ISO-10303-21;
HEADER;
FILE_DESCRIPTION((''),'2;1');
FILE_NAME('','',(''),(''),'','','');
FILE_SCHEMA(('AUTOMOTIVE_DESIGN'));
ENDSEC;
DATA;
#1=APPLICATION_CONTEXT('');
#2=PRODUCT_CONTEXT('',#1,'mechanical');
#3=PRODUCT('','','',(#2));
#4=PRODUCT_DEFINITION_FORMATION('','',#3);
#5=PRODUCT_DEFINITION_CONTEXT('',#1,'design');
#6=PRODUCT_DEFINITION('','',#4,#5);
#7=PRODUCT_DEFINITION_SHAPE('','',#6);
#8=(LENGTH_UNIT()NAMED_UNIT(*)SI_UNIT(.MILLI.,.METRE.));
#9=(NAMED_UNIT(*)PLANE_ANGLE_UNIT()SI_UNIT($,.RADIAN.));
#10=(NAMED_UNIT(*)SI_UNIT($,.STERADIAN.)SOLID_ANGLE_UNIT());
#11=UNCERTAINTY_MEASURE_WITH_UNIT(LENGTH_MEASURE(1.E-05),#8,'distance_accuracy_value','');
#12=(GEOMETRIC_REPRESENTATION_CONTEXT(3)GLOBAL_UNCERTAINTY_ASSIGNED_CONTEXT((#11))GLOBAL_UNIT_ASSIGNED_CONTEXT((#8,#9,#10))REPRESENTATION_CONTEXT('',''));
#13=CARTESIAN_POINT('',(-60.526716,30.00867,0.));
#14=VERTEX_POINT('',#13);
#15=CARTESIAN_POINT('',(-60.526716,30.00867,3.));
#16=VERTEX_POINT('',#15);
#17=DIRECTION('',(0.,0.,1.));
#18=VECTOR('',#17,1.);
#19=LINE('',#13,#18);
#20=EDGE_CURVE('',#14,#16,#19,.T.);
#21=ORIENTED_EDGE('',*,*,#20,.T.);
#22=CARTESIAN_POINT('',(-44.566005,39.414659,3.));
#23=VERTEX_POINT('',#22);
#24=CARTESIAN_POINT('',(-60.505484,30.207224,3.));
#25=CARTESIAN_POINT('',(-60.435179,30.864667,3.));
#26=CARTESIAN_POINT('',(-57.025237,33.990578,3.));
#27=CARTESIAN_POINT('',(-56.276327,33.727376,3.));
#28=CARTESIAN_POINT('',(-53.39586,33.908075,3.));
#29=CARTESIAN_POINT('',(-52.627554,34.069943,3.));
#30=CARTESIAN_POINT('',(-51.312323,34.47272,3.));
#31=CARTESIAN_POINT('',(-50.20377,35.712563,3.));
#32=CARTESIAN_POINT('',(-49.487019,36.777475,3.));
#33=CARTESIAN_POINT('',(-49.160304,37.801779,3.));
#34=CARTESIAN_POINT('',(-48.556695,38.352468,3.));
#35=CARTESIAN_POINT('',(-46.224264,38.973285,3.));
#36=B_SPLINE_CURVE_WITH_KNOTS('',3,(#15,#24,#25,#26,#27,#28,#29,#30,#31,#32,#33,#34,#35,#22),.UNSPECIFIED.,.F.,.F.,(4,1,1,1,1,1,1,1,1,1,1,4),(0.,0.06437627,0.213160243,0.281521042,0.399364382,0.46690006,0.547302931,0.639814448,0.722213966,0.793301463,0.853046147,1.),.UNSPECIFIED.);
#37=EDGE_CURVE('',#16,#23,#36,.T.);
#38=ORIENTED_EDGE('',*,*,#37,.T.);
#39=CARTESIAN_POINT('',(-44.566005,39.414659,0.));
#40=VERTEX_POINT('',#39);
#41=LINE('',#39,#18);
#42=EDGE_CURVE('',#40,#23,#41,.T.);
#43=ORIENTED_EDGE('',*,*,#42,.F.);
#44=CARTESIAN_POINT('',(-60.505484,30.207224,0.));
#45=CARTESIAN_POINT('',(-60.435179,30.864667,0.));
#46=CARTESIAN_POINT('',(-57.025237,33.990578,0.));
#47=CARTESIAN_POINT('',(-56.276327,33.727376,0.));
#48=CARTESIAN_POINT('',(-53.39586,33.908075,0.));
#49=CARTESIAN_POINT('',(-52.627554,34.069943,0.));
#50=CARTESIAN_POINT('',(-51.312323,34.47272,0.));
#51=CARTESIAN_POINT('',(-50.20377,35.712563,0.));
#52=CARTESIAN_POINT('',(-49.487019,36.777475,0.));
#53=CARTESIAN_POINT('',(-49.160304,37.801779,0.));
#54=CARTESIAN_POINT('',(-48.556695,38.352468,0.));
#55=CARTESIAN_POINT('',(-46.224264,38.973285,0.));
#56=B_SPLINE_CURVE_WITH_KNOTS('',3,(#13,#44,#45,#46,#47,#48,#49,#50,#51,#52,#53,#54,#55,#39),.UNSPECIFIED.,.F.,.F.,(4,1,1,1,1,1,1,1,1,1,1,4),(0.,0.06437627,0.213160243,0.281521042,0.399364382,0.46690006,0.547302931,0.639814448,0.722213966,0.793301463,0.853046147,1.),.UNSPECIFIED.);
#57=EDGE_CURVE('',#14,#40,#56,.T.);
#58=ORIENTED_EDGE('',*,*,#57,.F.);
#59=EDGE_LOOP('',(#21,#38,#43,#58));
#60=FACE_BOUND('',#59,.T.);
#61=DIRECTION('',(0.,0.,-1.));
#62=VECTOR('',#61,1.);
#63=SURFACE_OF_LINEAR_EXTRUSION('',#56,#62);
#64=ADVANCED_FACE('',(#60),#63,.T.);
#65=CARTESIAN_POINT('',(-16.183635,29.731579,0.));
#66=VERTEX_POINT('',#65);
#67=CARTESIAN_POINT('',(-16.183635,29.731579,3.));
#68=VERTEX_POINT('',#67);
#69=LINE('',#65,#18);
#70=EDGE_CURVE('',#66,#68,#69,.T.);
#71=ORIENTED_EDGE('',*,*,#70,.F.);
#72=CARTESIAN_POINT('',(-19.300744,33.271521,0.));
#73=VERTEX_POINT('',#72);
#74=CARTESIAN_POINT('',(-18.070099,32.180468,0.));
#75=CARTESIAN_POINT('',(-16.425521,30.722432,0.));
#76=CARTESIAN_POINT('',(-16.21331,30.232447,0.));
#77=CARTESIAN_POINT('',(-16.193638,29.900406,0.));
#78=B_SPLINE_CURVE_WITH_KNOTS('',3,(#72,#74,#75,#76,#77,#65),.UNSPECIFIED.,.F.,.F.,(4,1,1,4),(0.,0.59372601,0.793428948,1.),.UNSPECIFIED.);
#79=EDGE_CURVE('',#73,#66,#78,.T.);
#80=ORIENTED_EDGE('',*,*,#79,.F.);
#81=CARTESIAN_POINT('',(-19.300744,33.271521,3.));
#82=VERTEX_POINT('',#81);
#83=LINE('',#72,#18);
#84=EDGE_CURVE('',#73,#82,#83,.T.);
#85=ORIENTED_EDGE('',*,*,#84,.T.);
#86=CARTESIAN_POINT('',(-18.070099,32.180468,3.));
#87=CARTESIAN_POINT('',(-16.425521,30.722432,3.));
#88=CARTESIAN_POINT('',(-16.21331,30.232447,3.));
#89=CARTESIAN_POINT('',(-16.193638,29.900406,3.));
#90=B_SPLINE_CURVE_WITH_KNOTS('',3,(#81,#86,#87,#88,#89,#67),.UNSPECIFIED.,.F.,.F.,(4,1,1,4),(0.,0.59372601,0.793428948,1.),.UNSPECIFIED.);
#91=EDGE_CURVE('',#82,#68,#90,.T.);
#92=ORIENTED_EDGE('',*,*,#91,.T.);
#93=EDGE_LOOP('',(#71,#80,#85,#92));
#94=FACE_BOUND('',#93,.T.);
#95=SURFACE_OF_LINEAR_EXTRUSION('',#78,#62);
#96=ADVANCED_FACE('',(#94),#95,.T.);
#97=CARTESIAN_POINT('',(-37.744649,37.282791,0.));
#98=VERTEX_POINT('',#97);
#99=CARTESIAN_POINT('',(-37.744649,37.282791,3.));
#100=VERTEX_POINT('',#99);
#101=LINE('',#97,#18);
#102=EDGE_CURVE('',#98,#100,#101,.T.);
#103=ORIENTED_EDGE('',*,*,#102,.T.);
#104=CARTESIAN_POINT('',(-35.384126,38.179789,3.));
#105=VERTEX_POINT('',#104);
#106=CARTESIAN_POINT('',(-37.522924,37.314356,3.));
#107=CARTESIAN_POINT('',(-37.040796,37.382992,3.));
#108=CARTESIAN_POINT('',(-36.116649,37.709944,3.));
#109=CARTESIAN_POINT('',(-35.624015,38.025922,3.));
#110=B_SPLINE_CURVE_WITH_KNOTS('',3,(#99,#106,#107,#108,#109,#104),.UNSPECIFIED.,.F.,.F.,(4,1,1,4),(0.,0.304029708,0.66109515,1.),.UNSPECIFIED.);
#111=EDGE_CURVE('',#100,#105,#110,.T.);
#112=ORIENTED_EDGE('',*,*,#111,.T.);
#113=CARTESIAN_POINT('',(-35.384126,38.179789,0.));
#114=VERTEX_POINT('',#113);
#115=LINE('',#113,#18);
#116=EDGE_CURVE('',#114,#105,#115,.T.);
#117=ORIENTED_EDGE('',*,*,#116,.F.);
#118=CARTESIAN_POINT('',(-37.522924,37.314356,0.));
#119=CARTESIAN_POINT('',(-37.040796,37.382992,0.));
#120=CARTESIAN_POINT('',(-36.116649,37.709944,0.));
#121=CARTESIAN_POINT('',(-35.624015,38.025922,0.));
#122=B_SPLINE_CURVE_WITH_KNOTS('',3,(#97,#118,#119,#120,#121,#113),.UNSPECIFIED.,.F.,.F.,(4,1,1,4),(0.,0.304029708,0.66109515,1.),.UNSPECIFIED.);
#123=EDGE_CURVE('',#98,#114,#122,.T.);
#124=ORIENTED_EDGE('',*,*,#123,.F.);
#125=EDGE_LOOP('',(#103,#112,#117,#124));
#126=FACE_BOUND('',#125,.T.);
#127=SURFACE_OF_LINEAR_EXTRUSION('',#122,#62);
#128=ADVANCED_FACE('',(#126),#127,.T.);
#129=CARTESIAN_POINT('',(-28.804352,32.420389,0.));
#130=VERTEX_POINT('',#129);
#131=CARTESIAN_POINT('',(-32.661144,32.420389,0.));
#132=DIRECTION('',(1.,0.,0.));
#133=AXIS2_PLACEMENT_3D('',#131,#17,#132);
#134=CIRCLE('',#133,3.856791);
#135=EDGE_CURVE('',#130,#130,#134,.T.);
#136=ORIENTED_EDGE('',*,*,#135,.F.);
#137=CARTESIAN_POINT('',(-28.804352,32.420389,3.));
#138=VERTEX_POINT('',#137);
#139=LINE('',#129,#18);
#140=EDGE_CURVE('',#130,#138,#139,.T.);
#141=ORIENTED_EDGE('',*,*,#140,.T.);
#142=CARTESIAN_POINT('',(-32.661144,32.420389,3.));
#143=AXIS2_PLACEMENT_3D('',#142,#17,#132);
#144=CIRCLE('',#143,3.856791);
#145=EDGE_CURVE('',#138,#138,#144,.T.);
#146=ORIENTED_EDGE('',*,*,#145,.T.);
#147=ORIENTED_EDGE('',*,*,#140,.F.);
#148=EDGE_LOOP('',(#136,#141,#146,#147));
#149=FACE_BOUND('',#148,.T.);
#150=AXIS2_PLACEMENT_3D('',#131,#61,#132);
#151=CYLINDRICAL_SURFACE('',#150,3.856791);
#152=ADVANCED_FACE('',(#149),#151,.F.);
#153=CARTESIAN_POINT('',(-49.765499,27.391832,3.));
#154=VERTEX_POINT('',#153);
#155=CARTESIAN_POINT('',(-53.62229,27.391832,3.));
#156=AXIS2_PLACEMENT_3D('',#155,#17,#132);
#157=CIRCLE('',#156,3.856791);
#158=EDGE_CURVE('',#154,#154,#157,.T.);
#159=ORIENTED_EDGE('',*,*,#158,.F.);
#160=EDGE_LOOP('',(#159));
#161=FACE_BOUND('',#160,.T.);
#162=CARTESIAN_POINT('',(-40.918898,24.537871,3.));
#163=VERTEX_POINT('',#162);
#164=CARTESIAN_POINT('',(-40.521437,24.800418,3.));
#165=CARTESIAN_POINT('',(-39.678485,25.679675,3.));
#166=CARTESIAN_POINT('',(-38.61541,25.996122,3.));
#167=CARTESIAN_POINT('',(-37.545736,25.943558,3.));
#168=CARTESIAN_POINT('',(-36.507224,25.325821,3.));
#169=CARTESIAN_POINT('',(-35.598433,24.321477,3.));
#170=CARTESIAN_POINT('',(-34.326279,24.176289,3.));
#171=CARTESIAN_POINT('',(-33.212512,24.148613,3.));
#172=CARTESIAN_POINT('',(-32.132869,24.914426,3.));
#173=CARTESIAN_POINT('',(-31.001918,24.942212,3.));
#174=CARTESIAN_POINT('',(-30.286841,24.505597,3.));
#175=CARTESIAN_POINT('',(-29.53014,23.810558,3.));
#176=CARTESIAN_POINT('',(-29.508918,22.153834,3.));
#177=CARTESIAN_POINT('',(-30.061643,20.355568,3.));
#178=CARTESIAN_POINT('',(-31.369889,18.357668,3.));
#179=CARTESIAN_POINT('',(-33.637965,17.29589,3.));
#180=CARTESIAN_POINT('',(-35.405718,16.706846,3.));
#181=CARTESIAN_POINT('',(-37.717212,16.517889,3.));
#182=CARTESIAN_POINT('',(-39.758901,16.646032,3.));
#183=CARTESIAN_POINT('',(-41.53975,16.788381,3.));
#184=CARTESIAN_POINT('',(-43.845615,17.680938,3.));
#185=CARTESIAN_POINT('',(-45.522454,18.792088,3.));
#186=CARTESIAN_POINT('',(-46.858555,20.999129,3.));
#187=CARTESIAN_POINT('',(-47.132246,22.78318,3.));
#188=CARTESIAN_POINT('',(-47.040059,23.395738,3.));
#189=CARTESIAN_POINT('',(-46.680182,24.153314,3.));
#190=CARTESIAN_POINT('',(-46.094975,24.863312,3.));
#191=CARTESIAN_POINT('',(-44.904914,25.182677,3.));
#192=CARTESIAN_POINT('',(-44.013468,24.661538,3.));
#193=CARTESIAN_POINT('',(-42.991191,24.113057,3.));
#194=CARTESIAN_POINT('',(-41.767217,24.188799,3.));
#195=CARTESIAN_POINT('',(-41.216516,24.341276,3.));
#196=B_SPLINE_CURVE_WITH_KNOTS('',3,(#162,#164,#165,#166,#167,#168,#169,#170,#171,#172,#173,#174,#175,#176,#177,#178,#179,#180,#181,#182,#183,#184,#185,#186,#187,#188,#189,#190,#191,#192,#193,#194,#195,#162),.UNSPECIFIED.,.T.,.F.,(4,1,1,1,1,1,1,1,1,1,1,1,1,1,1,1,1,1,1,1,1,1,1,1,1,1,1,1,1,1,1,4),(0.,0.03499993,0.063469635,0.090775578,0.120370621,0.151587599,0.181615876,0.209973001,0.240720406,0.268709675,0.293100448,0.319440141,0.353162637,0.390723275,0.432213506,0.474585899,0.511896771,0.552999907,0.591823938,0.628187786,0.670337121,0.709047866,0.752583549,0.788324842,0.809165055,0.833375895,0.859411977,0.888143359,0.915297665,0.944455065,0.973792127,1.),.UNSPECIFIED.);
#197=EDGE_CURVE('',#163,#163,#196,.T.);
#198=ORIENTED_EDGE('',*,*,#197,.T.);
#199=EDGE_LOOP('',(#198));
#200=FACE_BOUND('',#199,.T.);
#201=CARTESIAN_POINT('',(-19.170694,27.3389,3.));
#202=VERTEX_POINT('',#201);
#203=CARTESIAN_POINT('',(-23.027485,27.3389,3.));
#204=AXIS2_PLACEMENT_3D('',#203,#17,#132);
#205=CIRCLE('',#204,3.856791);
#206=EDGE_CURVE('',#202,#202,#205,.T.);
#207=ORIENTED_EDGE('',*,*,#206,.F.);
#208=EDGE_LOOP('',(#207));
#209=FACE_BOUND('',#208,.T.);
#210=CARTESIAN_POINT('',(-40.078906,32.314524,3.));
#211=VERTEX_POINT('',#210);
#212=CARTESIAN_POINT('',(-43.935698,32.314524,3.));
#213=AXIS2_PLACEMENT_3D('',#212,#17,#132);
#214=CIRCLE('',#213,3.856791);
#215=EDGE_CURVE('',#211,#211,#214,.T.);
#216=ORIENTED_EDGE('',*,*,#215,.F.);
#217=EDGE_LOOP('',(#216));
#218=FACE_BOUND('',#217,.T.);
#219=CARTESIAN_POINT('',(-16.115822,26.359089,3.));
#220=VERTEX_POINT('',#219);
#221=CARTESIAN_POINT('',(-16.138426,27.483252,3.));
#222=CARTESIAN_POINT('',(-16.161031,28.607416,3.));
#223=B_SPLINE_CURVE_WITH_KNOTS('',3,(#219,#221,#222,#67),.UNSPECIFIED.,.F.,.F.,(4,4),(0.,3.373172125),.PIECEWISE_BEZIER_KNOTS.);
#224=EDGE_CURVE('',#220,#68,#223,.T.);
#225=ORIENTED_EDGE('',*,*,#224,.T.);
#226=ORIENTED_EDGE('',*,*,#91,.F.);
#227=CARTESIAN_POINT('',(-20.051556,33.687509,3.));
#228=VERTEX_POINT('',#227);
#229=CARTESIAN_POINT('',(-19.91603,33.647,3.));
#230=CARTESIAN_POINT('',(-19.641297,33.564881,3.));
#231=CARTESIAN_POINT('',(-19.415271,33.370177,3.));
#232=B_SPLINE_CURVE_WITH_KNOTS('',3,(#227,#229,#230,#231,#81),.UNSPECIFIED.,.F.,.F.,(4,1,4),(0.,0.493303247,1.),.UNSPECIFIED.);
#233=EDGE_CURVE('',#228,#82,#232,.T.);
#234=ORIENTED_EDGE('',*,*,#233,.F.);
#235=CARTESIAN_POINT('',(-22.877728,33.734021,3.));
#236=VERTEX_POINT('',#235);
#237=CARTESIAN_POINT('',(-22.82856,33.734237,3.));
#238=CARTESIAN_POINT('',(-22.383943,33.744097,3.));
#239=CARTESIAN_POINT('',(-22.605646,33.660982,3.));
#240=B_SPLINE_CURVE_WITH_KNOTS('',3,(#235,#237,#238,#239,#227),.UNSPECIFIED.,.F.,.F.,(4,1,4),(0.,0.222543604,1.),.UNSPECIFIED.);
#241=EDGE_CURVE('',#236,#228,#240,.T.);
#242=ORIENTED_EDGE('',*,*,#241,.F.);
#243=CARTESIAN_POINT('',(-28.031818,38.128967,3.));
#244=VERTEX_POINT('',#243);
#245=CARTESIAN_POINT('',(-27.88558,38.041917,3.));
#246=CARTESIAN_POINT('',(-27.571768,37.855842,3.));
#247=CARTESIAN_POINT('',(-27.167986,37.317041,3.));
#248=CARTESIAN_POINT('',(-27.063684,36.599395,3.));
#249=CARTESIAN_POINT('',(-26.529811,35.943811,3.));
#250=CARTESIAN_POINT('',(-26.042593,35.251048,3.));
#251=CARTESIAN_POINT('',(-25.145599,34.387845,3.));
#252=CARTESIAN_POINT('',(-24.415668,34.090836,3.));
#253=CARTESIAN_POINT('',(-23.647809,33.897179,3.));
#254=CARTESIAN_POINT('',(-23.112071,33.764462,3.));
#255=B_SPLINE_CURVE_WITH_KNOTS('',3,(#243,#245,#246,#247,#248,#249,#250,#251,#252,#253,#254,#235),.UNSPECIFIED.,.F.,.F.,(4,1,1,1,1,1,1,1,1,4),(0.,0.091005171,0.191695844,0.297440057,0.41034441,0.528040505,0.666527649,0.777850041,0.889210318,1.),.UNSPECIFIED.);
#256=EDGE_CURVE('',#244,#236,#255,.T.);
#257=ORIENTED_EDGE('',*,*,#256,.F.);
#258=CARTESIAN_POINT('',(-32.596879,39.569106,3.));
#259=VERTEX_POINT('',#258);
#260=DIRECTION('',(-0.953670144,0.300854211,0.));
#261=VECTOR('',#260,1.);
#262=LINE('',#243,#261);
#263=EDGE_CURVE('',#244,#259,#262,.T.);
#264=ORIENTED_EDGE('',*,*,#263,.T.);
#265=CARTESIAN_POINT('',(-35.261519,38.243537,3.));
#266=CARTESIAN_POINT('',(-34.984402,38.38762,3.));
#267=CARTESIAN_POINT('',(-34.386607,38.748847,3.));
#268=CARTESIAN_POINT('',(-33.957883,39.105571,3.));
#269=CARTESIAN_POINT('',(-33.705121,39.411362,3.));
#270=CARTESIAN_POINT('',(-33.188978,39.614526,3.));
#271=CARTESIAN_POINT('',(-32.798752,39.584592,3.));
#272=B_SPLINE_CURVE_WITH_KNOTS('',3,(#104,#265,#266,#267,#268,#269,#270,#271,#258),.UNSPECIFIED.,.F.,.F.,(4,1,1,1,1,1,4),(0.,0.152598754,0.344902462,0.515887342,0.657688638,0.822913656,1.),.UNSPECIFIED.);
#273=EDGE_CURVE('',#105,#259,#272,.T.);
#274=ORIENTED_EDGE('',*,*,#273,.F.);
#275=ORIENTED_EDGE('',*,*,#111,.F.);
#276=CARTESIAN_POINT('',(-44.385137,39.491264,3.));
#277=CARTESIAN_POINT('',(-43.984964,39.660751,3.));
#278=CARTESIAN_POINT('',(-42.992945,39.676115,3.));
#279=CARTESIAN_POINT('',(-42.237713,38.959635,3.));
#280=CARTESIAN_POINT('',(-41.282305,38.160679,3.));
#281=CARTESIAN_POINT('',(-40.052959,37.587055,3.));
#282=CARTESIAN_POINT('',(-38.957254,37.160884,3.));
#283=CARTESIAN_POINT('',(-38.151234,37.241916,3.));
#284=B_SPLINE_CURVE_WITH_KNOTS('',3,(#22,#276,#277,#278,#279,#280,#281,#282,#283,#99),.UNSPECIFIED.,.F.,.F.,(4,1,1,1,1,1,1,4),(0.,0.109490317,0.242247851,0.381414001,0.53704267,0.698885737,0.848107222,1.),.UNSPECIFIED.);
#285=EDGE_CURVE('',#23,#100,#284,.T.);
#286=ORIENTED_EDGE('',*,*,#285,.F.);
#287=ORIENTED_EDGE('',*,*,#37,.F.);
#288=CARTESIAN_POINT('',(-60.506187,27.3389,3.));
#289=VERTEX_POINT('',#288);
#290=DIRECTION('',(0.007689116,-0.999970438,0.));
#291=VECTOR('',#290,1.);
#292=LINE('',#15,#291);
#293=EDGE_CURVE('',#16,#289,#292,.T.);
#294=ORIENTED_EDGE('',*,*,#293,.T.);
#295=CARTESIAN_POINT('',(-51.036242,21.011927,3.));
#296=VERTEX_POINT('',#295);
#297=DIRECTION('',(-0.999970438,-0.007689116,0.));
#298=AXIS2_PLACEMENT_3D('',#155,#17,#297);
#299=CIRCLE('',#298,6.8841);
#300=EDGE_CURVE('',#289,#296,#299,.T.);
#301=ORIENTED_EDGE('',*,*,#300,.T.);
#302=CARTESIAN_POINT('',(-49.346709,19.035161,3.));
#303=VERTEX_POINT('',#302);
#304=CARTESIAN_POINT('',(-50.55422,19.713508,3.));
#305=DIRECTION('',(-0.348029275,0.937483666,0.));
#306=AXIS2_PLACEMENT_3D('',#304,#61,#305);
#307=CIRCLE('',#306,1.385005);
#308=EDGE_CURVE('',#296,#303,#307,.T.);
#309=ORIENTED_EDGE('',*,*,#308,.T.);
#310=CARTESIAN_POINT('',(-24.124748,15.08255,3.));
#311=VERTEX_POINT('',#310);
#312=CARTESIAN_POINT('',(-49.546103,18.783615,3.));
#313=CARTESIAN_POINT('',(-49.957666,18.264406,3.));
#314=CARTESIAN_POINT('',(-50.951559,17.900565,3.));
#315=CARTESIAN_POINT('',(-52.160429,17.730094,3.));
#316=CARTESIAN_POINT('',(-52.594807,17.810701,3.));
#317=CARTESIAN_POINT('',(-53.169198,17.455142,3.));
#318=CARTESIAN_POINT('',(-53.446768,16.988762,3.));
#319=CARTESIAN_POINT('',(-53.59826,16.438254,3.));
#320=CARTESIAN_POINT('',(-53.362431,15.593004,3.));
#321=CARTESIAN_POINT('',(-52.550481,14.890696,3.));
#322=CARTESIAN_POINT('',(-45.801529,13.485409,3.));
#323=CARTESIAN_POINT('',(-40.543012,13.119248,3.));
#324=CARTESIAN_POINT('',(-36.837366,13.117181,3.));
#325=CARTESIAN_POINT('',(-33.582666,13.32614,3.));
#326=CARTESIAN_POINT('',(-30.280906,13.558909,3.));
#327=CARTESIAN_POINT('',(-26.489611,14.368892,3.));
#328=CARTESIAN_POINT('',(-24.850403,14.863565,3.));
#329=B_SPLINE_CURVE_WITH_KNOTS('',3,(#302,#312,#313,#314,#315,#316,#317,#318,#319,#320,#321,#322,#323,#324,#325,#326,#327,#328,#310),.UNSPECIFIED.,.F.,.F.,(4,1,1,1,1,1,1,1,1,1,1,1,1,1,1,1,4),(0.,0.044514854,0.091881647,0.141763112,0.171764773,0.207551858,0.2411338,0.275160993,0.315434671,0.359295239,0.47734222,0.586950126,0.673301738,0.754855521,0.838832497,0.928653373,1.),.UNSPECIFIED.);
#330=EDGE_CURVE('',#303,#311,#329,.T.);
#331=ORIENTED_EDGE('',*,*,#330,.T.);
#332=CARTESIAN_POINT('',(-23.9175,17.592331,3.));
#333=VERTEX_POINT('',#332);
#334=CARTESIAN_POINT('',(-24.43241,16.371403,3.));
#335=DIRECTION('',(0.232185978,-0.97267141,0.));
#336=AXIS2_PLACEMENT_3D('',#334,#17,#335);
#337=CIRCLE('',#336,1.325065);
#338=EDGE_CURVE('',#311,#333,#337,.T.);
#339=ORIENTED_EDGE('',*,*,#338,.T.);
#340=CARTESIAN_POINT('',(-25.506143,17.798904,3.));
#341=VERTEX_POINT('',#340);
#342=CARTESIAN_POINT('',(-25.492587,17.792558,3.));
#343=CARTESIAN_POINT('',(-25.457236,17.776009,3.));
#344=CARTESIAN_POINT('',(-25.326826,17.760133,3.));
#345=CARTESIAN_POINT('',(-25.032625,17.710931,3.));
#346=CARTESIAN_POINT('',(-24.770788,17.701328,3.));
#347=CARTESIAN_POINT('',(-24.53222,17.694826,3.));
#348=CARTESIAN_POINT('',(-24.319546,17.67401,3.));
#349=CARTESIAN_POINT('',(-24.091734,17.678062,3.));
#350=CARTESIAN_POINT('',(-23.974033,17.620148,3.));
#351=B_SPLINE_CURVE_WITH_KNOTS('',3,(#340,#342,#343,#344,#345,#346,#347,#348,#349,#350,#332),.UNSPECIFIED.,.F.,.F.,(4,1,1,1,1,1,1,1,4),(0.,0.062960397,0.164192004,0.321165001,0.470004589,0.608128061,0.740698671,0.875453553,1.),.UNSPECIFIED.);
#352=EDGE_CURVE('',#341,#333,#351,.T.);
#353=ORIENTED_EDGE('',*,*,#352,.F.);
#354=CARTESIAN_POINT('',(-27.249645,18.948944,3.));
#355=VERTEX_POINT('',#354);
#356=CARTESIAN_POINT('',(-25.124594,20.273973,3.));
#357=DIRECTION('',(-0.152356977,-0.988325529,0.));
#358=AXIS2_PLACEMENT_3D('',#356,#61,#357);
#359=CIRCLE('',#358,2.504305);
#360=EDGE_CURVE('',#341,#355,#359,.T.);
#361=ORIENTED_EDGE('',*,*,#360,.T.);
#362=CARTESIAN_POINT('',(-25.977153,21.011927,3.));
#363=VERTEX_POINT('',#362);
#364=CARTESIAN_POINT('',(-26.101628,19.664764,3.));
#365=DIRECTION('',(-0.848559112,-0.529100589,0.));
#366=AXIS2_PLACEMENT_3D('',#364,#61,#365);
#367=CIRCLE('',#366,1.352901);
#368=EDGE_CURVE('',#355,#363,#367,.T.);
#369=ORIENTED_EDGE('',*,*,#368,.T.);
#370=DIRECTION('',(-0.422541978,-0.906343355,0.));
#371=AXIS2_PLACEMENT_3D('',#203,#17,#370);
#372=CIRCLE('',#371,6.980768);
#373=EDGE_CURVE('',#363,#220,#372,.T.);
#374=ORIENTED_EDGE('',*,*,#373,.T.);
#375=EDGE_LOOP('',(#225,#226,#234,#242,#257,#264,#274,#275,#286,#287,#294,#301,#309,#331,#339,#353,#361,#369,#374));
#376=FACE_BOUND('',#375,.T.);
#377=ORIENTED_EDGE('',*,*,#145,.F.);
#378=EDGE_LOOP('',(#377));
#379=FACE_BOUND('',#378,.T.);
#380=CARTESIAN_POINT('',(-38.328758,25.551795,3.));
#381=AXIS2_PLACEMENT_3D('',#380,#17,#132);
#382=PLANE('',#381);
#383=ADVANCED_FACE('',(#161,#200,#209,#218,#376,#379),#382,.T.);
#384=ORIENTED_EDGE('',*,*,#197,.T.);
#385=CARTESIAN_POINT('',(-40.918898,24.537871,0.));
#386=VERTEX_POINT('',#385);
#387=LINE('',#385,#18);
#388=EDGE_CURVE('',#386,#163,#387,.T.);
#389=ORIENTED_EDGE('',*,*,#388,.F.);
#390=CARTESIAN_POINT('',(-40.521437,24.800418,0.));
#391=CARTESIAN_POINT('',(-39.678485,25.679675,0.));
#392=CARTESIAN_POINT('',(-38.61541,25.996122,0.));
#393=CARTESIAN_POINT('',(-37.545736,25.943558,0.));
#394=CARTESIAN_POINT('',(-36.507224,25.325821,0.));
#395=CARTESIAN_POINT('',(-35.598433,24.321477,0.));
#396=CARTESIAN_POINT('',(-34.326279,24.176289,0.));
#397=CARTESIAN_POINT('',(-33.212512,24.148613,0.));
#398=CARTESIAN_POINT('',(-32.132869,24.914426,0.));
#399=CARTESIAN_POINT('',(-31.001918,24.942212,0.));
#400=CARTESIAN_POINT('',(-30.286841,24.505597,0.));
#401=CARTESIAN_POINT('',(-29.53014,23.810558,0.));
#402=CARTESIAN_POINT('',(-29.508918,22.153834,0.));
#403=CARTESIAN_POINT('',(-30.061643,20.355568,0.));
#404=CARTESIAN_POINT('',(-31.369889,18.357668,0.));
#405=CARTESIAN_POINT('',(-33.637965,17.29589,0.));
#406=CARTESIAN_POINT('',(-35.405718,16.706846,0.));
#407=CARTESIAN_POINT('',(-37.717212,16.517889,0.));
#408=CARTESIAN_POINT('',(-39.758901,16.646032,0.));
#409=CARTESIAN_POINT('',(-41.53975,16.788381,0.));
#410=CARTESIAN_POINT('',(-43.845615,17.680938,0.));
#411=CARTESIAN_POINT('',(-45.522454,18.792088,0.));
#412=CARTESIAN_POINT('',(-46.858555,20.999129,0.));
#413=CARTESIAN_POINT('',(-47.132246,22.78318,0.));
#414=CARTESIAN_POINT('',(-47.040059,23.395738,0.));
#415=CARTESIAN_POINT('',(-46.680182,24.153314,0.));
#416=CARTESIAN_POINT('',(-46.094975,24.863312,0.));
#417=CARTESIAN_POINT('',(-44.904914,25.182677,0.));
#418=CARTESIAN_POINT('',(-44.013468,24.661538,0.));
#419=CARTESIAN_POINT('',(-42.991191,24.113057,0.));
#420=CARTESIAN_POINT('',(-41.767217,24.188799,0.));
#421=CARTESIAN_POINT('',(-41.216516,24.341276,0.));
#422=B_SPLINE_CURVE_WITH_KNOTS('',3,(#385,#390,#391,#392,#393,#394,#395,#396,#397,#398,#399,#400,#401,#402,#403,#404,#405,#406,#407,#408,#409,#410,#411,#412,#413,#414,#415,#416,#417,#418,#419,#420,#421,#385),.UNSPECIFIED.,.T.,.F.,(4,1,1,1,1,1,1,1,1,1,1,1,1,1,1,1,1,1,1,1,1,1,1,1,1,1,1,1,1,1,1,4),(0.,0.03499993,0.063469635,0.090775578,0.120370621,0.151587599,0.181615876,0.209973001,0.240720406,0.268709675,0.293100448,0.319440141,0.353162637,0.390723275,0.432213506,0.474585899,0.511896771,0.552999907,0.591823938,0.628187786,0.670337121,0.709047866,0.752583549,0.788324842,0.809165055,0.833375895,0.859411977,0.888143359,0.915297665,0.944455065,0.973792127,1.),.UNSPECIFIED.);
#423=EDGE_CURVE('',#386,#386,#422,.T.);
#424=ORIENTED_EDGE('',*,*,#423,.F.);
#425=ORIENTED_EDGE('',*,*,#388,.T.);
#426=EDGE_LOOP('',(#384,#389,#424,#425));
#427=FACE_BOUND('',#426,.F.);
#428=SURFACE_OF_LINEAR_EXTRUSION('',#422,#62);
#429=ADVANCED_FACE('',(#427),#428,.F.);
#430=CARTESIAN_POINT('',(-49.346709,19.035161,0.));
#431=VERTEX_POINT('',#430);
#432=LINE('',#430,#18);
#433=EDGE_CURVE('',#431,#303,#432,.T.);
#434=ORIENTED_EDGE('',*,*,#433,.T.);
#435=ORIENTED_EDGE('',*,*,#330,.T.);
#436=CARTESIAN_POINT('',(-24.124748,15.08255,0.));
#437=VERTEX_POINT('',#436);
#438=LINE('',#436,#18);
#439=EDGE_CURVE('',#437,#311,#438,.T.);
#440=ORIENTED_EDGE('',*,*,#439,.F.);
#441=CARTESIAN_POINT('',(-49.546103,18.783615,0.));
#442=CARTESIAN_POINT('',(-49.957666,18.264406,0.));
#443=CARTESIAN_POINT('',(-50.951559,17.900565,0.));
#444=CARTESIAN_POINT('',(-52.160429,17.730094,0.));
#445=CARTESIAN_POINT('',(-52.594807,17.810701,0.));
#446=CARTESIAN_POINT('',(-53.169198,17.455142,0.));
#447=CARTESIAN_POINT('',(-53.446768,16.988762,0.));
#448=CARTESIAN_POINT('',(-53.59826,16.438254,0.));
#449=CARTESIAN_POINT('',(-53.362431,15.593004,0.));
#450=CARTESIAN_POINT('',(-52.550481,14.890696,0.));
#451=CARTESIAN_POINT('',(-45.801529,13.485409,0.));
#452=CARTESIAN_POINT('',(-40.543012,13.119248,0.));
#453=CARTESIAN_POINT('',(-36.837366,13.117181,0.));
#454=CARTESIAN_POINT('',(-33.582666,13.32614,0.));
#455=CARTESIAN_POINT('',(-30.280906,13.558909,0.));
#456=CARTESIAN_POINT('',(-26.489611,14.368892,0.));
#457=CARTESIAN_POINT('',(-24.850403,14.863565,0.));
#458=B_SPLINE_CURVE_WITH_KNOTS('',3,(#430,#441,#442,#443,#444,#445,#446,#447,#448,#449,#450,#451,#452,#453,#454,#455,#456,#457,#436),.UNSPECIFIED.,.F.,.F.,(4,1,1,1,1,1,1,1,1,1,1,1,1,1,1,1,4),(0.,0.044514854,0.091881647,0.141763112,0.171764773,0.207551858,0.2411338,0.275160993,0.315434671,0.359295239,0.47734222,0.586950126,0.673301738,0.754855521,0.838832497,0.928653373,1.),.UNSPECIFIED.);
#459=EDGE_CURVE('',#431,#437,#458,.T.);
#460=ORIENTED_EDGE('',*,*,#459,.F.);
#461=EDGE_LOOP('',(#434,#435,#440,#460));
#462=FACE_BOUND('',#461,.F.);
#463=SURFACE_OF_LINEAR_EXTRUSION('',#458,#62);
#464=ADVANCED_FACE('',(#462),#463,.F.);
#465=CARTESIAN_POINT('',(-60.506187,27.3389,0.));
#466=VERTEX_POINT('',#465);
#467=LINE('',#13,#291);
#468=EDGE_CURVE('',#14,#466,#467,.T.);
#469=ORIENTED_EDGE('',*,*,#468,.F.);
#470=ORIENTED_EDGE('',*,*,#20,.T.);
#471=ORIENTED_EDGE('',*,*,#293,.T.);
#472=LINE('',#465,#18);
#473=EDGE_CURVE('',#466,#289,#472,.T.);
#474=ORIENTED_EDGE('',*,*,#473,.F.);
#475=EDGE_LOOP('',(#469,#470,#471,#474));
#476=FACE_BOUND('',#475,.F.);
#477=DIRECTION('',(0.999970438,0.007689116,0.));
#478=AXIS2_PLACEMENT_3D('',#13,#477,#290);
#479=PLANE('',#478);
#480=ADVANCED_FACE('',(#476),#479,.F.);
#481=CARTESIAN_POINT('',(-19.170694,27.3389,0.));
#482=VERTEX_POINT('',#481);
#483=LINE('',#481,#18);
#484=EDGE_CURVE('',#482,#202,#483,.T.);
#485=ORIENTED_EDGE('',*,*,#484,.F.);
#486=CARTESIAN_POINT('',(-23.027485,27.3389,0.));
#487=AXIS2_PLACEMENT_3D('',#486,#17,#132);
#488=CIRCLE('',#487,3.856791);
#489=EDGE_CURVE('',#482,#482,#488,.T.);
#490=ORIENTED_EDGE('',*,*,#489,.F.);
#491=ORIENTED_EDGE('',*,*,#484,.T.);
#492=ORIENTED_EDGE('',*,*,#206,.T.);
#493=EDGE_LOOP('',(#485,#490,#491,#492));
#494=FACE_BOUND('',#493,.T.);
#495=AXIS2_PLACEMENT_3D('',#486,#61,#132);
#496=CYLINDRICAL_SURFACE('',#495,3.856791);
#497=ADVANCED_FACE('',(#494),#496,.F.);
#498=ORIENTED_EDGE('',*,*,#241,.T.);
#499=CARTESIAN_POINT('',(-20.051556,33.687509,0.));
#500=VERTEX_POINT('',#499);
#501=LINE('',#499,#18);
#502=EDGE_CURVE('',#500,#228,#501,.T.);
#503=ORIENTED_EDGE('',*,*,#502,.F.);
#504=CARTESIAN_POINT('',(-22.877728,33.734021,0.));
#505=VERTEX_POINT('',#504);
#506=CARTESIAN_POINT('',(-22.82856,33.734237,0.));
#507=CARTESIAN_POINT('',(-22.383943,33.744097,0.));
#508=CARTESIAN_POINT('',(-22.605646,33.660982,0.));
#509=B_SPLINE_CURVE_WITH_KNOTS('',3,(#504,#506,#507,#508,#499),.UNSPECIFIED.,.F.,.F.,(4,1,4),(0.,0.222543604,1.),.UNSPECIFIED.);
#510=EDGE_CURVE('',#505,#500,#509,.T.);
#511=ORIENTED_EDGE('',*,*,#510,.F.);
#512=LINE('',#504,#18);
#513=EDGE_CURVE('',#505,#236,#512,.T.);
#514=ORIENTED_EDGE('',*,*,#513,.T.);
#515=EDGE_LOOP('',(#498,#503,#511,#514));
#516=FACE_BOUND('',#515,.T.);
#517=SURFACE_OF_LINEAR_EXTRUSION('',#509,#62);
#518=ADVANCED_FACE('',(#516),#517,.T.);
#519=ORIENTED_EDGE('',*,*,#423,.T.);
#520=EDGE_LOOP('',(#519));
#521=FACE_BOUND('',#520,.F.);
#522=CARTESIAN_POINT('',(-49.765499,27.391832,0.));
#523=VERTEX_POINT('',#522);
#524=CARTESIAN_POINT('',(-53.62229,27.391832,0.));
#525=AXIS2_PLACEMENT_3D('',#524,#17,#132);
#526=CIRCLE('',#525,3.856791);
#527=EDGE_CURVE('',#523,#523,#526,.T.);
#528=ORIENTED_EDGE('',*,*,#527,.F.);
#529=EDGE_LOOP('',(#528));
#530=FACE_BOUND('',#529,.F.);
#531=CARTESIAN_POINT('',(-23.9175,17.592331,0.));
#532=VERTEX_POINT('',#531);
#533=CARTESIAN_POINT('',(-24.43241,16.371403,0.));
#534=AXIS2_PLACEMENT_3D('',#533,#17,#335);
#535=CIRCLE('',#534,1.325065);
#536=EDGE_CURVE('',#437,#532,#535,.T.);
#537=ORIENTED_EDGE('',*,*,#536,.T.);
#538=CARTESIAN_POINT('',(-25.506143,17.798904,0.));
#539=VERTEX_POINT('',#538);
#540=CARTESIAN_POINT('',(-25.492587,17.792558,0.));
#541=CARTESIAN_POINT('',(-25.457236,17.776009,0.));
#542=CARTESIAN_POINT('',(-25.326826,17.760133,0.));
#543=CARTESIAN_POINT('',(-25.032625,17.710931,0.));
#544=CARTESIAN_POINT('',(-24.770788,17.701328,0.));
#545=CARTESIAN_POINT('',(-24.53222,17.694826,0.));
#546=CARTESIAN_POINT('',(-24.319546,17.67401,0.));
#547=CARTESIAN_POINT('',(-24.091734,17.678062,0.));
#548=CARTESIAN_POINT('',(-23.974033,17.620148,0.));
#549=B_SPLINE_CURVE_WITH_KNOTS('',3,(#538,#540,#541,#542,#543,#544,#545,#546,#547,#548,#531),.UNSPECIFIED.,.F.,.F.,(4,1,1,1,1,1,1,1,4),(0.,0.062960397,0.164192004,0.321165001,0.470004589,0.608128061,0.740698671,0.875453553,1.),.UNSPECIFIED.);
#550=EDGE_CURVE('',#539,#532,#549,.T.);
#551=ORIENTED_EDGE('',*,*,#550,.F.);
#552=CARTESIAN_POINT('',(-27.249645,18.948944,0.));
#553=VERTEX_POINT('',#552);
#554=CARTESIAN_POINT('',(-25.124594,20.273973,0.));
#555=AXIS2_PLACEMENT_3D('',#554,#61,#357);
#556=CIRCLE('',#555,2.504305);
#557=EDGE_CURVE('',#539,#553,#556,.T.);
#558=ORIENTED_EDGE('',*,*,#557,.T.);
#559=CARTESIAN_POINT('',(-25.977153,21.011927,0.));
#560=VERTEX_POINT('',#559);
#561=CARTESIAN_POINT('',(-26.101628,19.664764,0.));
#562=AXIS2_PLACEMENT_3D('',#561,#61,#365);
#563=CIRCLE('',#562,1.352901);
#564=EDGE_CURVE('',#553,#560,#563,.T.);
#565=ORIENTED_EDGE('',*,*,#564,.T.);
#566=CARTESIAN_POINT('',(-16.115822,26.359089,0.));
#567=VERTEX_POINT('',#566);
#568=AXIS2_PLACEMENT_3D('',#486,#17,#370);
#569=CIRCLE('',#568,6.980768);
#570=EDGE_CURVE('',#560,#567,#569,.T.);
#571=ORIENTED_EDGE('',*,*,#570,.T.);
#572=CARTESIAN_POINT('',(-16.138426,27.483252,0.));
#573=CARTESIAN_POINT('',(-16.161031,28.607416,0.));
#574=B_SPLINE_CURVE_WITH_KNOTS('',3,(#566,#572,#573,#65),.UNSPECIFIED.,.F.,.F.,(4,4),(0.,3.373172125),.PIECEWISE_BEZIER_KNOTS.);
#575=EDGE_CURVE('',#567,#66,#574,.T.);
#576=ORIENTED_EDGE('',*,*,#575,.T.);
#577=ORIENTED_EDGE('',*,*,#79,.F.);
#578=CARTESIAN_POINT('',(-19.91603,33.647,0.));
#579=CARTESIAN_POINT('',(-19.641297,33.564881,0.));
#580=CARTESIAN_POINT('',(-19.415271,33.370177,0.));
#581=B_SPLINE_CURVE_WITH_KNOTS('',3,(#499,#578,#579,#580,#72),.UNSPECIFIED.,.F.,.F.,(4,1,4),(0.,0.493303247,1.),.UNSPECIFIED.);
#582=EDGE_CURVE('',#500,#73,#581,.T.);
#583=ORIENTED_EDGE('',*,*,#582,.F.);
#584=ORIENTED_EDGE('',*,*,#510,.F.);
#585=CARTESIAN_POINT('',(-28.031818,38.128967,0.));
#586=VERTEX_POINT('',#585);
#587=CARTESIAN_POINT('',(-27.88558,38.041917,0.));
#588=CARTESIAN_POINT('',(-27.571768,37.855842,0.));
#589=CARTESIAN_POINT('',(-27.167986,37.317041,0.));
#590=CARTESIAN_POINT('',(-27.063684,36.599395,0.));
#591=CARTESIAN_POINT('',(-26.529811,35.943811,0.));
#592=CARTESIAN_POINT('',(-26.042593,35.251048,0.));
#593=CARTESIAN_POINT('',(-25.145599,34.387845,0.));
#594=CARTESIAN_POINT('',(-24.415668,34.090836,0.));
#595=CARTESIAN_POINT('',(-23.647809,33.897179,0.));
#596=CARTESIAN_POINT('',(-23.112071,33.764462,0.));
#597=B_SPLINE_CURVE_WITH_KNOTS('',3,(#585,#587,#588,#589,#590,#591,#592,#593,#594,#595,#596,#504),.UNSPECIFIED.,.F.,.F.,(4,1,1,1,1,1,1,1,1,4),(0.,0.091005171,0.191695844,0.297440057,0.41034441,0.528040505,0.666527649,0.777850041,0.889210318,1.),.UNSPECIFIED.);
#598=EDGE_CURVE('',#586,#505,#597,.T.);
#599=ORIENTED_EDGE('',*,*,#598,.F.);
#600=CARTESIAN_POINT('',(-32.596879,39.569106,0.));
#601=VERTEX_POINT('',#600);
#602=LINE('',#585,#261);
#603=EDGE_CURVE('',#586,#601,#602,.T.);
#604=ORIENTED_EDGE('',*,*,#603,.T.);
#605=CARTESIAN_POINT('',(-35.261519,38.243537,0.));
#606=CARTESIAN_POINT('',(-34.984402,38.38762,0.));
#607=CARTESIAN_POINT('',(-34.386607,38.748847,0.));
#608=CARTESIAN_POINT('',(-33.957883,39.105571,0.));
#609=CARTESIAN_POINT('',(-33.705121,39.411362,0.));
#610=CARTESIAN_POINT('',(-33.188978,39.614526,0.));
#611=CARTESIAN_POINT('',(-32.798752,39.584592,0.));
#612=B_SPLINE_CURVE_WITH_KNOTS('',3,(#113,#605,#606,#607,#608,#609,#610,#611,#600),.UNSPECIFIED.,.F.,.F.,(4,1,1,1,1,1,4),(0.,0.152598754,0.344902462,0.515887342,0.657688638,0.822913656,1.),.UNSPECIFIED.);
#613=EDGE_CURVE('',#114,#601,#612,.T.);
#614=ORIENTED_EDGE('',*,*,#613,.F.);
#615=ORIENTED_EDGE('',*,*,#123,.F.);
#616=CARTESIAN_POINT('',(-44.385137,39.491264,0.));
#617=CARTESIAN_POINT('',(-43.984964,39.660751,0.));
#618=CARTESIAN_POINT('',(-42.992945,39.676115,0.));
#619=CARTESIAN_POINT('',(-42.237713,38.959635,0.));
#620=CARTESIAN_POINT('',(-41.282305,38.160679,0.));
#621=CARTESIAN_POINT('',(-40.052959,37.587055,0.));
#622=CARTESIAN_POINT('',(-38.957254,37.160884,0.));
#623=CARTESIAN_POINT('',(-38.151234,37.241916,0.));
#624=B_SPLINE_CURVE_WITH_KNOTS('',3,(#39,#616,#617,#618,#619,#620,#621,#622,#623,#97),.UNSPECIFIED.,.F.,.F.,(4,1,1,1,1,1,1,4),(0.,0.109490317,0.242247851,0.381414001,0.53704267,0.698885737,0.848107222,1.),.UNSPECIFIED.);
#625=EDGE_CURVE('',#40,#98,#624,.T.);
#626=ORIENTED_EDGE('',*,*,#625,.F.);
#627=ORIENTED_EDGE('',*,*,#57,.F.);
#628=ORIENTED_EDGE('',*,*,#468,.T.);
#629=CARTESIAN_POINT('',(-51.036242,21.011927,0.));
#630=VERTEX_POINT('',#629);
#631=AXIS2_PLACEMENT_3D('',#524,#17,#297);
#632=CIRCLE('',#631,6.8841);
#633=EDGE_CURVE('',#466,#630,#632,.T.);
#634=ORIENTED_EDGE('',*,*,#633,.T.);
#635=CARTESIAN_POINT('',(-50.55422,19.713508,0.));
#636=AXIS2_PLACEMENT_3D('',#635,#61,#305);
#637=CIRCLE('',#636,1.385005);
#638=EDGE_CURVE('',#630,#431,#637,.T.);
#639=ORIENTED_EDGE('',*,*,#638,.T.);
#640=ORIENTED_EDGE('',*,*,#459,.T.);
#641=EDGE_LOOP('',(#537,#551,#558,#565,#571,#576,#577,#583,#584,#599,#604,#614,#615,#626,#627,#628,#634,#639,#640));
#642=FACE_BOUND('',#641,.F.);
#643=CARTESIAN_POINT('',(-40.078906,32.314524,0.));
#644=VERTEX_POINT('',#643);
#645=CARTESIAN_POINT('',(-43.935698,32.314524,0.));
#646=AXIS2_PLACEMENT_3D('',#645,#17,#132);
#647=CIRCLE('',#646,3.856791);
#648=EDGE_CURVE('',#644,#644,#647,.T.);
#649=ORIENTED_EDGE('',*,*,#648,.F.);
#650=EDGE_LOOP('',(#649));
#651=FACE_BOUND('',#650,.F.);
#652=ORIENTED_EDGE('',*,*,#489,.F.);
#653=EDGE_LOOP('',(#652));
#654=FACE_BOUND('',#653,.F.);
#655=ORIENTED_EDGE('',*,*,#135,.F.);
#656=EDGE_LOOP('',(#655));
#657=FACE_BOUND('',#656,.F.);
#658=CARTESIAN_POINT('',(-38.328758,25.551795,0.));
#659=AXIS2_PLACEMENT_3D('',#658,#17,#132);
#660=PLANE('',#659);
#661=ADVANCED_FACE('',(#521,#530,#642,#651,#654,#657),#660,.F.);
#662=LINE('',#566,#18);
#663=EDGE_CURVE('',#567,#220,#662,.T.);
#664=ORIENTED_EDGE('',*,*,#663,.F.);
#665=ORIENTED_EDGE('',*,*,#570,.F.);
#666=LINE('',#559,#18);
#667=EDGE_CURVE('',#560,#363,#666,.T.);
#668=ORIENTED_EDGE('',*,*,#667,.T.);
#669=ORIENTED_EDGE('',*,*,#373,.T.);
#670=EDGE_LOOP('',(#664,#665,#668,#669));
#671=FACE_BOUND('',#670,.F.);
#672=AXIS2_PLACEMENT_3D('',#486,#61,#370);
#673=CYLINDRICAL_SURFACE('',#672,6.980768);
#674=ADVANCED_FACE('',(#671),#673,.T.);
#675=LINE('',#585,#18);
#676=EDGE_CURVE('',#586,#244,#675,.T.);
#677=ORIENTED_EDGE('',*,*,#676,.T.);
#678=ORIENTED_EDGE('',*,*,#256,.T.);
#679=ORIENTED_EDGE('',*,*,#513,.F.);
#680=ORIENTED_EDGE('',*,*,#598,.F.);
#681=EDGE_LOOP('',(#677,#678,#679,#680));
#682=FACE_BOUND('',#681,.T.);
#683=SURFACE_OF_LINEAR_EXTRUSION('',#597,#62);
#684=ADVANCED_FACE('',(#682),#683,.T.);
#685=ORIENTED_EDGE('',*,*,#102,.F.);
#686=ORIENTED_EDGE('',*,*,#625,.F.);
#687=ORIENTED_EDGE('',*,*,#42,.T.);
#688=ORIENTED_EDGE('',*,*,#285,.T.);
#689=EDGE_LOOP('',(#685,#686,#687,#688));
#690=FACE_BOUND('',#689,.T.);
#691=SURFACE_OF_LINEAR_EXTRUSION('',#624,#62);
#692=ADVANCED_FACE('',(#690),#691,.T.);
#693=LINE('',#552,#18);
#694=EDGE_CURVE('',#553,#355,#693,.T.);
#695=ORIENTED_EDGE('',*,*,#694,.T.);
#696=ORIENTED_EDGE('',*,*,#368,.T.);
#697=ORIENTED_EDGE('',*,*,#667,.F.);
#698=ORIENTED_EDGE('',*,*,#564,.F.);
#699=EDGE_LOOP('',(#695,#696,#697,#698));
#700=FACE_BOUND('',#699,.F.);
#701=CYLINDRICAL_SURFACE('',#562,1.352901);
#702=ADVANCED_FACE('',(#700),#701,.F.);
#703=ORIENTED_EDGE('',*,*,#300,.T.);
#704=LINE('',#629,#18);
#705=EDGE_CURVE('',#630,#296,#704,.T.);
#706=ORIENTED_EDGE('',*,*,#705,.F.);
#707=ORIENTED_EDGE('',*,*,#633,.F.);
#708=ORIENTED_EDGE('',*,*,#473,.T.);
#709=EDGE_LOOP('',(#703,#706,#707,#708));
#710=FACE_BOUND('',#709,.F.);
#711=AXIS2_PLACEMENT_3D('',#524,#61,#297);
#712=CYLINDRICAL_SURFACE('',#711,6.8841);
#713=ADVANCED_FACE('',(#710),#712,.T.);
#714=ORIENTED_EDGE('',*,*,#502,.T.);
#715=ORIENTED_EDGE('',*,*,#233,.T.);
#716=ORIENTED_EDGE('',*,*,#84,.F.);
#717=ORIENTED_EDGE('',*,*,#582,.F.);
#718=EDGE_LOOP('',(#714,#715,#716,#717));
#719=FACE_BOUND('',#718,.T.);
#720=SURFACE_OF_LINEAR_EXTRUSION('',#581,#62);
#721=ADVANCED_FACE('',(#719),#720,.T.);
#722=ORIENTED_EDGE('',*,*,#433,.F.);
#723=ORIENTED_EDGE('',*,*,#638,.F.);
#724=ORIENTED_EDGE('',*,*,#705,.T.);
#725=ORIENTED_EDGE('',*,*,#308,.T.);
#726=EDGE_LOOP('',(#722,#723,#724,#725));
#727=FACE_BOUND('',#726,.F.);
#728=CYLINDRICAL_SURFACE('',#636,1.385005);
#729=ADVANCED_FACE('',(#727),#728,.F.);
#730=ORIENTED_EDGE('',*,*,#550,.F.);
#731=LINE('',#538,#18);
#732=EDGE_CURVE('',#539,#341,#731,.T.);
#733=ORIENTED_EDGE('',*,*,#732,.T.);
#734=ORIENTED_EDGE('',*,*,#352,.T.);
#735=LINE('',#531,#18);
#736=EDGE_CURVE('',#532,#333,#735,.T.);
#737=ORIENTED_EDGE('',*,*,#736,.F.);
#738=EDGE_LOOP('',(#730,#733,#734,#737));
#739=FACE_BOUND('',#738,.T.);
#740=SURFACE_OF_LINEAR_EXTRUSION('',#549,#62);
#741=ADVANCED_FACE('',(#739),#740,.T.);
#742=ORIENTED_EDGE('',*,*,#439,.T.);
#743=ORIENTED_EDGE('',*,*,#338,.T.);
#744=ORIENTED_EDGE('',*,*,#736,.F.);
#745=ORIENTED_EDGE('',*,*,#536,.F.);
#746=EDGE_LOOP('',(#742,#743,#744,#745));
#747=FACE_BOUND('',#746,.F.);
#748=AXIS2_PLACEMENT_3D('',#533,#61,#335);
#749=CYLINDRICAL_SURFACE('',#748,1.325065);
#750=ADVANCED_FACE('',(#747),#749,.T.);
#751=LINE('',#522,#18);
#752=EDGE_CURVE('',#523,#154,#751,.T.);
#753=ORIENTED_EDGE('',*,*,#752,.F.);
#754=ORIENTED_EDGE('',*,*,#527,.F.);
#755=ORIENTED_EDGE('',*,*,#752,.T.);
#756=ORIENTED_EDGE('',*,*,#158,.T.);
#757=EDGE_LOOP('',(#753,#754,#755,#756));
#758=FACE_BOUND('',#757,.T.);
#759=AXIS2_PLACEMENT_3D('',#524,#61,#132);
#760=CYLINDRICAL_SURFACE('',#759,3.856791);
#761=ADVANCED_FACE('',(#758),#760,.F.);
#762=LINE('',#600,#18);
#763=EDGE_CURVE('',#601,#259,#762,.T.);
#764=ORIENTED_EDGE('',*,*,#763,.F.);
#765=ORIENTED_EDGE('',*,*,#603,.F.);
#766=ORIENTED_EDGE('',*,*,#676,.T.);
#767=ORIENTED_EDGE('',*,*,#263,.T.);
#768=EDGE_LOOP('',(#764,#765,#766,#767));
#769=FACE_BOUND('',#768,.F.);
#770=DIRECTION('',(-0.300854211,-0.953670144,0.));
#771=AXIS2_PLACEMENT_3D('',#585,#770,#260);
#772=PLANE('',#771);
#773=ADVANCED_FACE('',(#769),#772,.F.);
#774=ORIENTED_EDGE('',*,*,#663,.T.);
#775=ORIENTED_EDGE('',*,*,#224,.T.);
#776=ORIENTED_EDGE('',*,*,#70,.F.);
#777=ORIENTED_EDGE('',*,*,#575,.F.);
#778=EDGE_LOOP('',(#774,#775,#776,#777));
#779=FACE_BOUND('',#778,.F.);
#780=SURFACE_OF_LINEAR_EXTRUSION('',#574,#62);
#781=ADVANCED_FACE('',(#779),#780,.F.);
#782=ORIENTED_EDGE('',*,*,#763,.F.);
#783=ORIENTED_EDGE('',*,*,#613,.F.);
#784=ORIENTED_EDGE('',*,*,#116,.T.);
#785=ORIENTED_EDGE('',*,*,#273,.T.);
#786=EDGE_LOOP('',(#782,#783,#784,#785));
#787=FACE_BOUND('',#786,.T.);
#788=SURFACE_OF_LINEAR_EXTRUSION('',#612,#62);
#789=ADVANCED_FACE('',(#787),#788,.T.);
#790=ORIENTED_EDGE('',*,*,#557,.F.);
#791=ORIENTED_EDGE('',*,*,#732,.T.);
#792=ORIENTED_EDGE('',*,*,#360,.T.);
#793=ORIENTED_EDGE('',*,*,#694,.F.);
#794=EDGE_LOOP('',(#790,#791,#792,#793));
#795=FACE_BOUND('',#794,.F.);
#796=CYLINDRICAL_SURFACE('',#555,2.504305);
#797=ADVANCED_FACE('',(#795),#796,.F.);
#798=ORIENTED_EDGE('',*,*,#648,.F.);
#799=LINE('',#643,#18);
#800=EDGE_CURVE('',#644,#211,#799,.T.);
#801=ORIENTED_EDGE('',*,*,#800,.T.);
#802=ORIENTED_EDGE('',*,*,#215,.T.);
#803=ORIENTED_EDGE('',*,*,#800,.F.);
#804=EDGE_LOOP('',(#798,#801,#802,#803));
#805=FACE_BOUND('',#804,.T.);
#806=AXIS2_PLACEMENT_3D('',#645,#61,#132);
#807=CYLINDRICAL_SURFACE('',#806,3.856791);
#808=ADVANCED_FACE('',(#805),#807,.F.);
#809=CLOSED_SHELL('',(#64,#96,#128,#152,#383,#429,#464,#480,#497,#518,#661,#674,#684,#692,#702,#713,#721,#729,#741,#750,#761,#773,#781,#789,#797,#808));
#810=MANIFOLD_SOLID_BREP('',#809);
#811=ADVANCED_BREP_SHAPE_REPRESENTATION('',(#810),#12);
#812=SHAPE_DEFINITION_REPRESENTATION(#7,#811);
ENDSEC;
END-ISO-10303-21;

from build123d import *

# Parameters (mm, degrees)
F0_R     = 3.8567912685
F1_DEPTH = 3


with BuildPart() as f1:
    # F0 (on Top) → F1 (new body)
    with BuildSketch(Plane.XY):
        with BuildLine():
            ThreePointArc((-25.9771526895, 21.0119271317), (-19.6999655733, 21.2022285467), (-16.115821898, 26.3590887189))
            add(Edge.make_bspline(
                [(-16.115821898, 26.3590887189), (-16.1384263386, 27.4832521876), (-16.1610307793, 28.6074156562), (-16.1836352199, 29.7315791249)],
                knots=[0, 0, 0, 0, 3.3731721251, 3.3731721251, 3.3731721251, 3.3731721251], degree=3))
            add(Edge.make_bspline(
                [(-19.3007439375, 33.2715213299), (-18.0700993522, 32.1804676824), (-16.4255208402, 30.722432271), (-16.2133102596, 30.2324466098), (-16.1936377552, 29.9004060163), (-16.1836352199, 29.7315791249)],
                knots=[0, 0, 0, 0, 0.5937260104, 0.793428948, 1, 1, 1, 1], degree=3))
            add(Edge.make_bspline(
                [(-20.0515559807, 33.6875090438), (-19.916029695, 33.64699975), (-19.6412974963, 33.5648813084), (-19.4152708867, 33.3701772461), (-19.3007439375, 33.2715213299)],
                knots=[0, 0, 0, 0, 0.4933032469, 1, 1, 1, 1], degree=3))
            add(Edge.make_bspline(
                [(-22.8777279155, 33.7340211573), (-22.8285598176, 33.7342372438), (-22.3839427912, 33.7440973109), (-22.6056464016, 33.6609818041), (-20.0515559807, 33.6875090438)],
                knots=[0, 0, 0, 0, 0.222543604, 1, 1, 1, 1], degree=3))
            add(Edge.make_bspline(
                [(-28.0318181277, 38.1289668131), (-27.885579503, 38.0419167178), (-27.5717684918, 37.8558424276), (-27.1679861093, 37.3170411042), (-27.0636841023, 36.5993951411), (-26.5298108295, 35.9438109103), (-26.04259258, 35.2510476492), (-25.145599189, 34.3878453458), (-24.4156679301, 34.0908360657), (-23.6478093767, 33.8971786822), (-23.1120710748, 33.7644619594), (-22.8777279155, 33.7340211573)],
                knots=[0, 0, 0, 0, 0.0910051711, 0.1916958438, 0.2974400571, 0.4103444103, 0.5280405053, 0.6665276493, 0.7778500412, 0.8892103184, 1, 1, 1, 1], degree=3))
            Line((-28.0318181277, 38.1289668131), (-32.5968787074, 39.569105953))
            add(Edge.make_bspline(
                [(-35.3841260076, 38.1797887385), (-35.2615186276, 38.2435370226), (-34.9844024263, 38.387620375), (-34.3866068151, 38.7488474108), (-33.9578831384, 39.1055711589), (-33.7051209205, 39.4113621533), (-33.1889779829, 39.6145255131), (-32.7987523294, 39.5845915506), (-32.5968787074, 39.569105953)],
                knots=[0, 0, 0, 0, 0.1525987544, 0.3449024617, 0.5158873423, 0.6576886383, 0.8229136557, 1, 1, 1, 1], degree=3))
            add(Edge.make_bspline(
                [(-37.7446487546, 37.2827909887), (-37.5229239713, 37.3143557814), (-37.0407961569, 37.3829916113), (-36.1166488042, 37.7099439749), (-35.6240153609, 38.0259221872), (-35.3841260076, 38.1797887385)],
                knots=[0, 0, 0, 0, 0.3040297085, 0.6610951502, 1, 1, 1, 1], degree=3))
            add(Edge.make_bspline(
                [(-44.5660054684, 39.4146591425), (-44.3851368945, 39.4912636148), (-43.9849643088, 39.6607513766), (-42.9929451712, 39.6761147418), (-42.2377125029, 38.9596352111), (-41.2823053684, 38.1606793633), (-40.0529586964, 37.587055039), (-38.9572544588, 37.1608839563), (-38.1512341556, 37.2419156906), (-37.7446487546, 37.2827909887)],
                knots=[0, 0, 0, 0, 0.1094903172, 0.2422478511, 0.3814140014, 0.5370426705, 0.6988857374, 0.8481072217, 1, 1, 1, 1], degree=3))
            add(Edge.make_bspline(
                [(-60.5267161619, 30.008670075), (-60.5054835059, 30.2072237005), (-60.4351787479, 30.8646668696), (-57.0252366374, 33.9905779981), (-56.2763268445, 33.727376356), (-53.3958604186, 33.9080747099), (-52.6275539857, 34.0699431128), (-51.3123233921, 34.4727198584), (-50.2037704732, 35.7125629269), (-49.4870189281, 36.7774745073), (-49.1603036363, 37.8017794669), (-48.5566947453, 38.352468399), (-46.2242642081, 38.9732849935), (-44.5660054684, 39.4146591425)],
                knots=[0, 0, 0, 0, 0.0643762702, 0.2131602433, 0.2815210417, 0.3993643819, 0.4669000597, 0.5473029309, 0.6398144475, 0.722213966, 0.7933014634, 0.8530461468, 1, 1, 1, 1], degree=3))
            Line((-60.5267161619, 30.008670075), (-60.5061873794, 27.338899672))
            ThreePointArc((-60.5061873794, 27.338899672), (-57.4466231264, 21.6677325566), (-51.0362417716, 21.0119271317))
            ThreePointArc((-51.0362417716, 21.0119271317), (-49.501373663, 20.6133707527), (-49.3467085229, 19.0351610099))
            add(Edge.make_bspline(
                [(-49.3467085229, 19.0351610099), (-49.5461026549, 18.7836147364), (-49.9576655268, 18.2644063441), (-50.9515585522, 17.9005647956), (-52.1604289393, 17.7300941419), (-52.5948073856, 17.8107014442), (-53.1691975047, 17.4551415002), (-53.4467682035, 16.9887624586), (-53.5982596637, 16.4382538731), (-53.3624310439, 15.5930035036), (-52.5504810074, 14.8906956293), (-45.8015294803, 13.4854087449), (-40.5430124931, 13.1192482375), (-36.837366002, 13.1171807541), (-33.5826657841, 13.3261401584), (-30.2809056664, 13.5589090137), (-26.4896114415, 14.3688915818), (-24.8504029883, 14.863565011), (-24.1247480553, 15.0825501031)],
                knots=[0, 0, 0, 0, 0.0445148545, 0.0918816475, 0.1417631119, 0.1717647731, 0.2075518584, 0.2411338, 0.2751609932, 0.3154346714, 0.3592952395, 0.4773422196, 0.5869501259, 0.6733017378, 0.7548555211, 0.8388324969, 0.9286533733, 1, 1, 1, 1], degree=3))
            ThreePointArc((-24.1247480553, 15.0825501031), (-23.1118393247, 16.2623553277), (-23.9175000976, 17.5923309603))
            add(Edge.make_bspline(
                [(-25.5061425269, 17.7989043295), (-25.492587098, 17.7925584999), (-25.4572364145, 17.776009454), (-25.3268255567, 17.7601333929), (-25.0326253125, 17.7109308561), (-24.770787542, 17.7013283965), (-24.5322197006, 17.6948261153), (-24.3195460403, 17.6740095308), (-24.0917338654, 17.6780620928), (-23.9740334374, 17.6201479978), (-23.9175000976, 17.5923309603)],
                knots=[0, 0, 0, 0, 0.0629603965, 0.1641920045, 0.3211650011, 0.4700045892, 0.6081280609, 0.7406986712, 0.8754535529, 1, 1, 1, 1], degree=3))
            ThreePointArc((-25.5061425269, 17.7989043295), (-26.5035094621, 18.1834858334), (-27.2496449406, 18.9489435947))
            ThreePointArc((-27.2496449406, 18.9489435947), (-27.2530988173, 20.37501597), (-25.9771526895, 21.0119271317))
        make_face()
        with BuildLine():
            add(Edge.make_bspline(
                [(-40.9188978374, 24.5378706604), (-40.5214367804, 24.8004175443), (-39.6784853743, 25.679674624), (-38.6154101374, 25.996122209), (-37.5457359878, 25.9435576042), (-36.5072236207, 25.3258213354), (-35.5984325136, 24.321477237), (-34.3262790868, 24.1762888313), (-33.212512285, 24.1486128862), (-32.1328688946, 24.9144261095), (-31.001918463, 24.9422124058), (-30.2868408826, 24.5055966896), (-29.5301401791, 23.8105579818), (-29.5089181813, 22.153833793), (-30.0616433092, 20.3555678954), (-31.3698891104, 18.3576683594), (-33.6379646008, 17.2958902021), (-35.405718021, 16.7068464226), (-37.7172124328, 16.517888924), (-39.7589006408, 16.6460317587), (-41.5397504564, 16.7883809791), (-43.8456151451, 17.6809377325), (-45.5224537429, 18.7920876938), (-46.8585554102, 20.9991288754), (-47.1322460782, 22.783180438), (-47.0400590581, 23.3957378224), (-46.6801819108, 24.1533142459), (-46.0949752385, 24.8633115879), (-44.9049135755, 25.1826774557), (-44.0134678271, 24.6615383802), (-42.9911906834, 24.1130565002), (-41.7672174564, 24.1887990614), (-41.2165158248, 24.3412761166), (-40.9188978374, 24.5378706604)],
                knots=[0, 0, 0, 0, 0.03499993, 0.0634696348, 0.0907755778, 0.1203706211, 0.1515875988, 0.1816158762, 0.2099730011, 0.2407204059, 0.2687096751, 0.2931004479, 0.3194401412, 0.3531626374, 0.3907232746, 0.4322135057, 0.4745858988, 0.5118967714, 0.5529999067, 0.5918239383, 0.6281877857, 0.6703371211, 0.7090478657, 0.7525835495, 0.7883248419, 0.8091650548, 0.8333758949, 0.859411977, 0.8881433586, 0.9152976648, 0.9444550648, 0.9737921275, 1, 1, 1, 1], degree=3))
        make_face(mode=Mode.SUBTRACT)
        with Locations((-53.6222904921, 27.3918323219)):
            Circle(F0_R, mode=Mode.SUBTRACT)
        with Locations((-43.9356975257, 32.3145240545)):
            Circle(F0_R, mode=Mode.SUBTRACT)
        with Locations((-32.6611436903, 32.4203893542)):
            Circle(F0_R, mode=Mode.SUBTRACT)
        with Locations((-23.0274852365, 27.338899672)):
            Circle(F0_R, mode=Mode.SUBTRACT)
    extrude(amount=F1_DEPTH)


solid = f1.part
